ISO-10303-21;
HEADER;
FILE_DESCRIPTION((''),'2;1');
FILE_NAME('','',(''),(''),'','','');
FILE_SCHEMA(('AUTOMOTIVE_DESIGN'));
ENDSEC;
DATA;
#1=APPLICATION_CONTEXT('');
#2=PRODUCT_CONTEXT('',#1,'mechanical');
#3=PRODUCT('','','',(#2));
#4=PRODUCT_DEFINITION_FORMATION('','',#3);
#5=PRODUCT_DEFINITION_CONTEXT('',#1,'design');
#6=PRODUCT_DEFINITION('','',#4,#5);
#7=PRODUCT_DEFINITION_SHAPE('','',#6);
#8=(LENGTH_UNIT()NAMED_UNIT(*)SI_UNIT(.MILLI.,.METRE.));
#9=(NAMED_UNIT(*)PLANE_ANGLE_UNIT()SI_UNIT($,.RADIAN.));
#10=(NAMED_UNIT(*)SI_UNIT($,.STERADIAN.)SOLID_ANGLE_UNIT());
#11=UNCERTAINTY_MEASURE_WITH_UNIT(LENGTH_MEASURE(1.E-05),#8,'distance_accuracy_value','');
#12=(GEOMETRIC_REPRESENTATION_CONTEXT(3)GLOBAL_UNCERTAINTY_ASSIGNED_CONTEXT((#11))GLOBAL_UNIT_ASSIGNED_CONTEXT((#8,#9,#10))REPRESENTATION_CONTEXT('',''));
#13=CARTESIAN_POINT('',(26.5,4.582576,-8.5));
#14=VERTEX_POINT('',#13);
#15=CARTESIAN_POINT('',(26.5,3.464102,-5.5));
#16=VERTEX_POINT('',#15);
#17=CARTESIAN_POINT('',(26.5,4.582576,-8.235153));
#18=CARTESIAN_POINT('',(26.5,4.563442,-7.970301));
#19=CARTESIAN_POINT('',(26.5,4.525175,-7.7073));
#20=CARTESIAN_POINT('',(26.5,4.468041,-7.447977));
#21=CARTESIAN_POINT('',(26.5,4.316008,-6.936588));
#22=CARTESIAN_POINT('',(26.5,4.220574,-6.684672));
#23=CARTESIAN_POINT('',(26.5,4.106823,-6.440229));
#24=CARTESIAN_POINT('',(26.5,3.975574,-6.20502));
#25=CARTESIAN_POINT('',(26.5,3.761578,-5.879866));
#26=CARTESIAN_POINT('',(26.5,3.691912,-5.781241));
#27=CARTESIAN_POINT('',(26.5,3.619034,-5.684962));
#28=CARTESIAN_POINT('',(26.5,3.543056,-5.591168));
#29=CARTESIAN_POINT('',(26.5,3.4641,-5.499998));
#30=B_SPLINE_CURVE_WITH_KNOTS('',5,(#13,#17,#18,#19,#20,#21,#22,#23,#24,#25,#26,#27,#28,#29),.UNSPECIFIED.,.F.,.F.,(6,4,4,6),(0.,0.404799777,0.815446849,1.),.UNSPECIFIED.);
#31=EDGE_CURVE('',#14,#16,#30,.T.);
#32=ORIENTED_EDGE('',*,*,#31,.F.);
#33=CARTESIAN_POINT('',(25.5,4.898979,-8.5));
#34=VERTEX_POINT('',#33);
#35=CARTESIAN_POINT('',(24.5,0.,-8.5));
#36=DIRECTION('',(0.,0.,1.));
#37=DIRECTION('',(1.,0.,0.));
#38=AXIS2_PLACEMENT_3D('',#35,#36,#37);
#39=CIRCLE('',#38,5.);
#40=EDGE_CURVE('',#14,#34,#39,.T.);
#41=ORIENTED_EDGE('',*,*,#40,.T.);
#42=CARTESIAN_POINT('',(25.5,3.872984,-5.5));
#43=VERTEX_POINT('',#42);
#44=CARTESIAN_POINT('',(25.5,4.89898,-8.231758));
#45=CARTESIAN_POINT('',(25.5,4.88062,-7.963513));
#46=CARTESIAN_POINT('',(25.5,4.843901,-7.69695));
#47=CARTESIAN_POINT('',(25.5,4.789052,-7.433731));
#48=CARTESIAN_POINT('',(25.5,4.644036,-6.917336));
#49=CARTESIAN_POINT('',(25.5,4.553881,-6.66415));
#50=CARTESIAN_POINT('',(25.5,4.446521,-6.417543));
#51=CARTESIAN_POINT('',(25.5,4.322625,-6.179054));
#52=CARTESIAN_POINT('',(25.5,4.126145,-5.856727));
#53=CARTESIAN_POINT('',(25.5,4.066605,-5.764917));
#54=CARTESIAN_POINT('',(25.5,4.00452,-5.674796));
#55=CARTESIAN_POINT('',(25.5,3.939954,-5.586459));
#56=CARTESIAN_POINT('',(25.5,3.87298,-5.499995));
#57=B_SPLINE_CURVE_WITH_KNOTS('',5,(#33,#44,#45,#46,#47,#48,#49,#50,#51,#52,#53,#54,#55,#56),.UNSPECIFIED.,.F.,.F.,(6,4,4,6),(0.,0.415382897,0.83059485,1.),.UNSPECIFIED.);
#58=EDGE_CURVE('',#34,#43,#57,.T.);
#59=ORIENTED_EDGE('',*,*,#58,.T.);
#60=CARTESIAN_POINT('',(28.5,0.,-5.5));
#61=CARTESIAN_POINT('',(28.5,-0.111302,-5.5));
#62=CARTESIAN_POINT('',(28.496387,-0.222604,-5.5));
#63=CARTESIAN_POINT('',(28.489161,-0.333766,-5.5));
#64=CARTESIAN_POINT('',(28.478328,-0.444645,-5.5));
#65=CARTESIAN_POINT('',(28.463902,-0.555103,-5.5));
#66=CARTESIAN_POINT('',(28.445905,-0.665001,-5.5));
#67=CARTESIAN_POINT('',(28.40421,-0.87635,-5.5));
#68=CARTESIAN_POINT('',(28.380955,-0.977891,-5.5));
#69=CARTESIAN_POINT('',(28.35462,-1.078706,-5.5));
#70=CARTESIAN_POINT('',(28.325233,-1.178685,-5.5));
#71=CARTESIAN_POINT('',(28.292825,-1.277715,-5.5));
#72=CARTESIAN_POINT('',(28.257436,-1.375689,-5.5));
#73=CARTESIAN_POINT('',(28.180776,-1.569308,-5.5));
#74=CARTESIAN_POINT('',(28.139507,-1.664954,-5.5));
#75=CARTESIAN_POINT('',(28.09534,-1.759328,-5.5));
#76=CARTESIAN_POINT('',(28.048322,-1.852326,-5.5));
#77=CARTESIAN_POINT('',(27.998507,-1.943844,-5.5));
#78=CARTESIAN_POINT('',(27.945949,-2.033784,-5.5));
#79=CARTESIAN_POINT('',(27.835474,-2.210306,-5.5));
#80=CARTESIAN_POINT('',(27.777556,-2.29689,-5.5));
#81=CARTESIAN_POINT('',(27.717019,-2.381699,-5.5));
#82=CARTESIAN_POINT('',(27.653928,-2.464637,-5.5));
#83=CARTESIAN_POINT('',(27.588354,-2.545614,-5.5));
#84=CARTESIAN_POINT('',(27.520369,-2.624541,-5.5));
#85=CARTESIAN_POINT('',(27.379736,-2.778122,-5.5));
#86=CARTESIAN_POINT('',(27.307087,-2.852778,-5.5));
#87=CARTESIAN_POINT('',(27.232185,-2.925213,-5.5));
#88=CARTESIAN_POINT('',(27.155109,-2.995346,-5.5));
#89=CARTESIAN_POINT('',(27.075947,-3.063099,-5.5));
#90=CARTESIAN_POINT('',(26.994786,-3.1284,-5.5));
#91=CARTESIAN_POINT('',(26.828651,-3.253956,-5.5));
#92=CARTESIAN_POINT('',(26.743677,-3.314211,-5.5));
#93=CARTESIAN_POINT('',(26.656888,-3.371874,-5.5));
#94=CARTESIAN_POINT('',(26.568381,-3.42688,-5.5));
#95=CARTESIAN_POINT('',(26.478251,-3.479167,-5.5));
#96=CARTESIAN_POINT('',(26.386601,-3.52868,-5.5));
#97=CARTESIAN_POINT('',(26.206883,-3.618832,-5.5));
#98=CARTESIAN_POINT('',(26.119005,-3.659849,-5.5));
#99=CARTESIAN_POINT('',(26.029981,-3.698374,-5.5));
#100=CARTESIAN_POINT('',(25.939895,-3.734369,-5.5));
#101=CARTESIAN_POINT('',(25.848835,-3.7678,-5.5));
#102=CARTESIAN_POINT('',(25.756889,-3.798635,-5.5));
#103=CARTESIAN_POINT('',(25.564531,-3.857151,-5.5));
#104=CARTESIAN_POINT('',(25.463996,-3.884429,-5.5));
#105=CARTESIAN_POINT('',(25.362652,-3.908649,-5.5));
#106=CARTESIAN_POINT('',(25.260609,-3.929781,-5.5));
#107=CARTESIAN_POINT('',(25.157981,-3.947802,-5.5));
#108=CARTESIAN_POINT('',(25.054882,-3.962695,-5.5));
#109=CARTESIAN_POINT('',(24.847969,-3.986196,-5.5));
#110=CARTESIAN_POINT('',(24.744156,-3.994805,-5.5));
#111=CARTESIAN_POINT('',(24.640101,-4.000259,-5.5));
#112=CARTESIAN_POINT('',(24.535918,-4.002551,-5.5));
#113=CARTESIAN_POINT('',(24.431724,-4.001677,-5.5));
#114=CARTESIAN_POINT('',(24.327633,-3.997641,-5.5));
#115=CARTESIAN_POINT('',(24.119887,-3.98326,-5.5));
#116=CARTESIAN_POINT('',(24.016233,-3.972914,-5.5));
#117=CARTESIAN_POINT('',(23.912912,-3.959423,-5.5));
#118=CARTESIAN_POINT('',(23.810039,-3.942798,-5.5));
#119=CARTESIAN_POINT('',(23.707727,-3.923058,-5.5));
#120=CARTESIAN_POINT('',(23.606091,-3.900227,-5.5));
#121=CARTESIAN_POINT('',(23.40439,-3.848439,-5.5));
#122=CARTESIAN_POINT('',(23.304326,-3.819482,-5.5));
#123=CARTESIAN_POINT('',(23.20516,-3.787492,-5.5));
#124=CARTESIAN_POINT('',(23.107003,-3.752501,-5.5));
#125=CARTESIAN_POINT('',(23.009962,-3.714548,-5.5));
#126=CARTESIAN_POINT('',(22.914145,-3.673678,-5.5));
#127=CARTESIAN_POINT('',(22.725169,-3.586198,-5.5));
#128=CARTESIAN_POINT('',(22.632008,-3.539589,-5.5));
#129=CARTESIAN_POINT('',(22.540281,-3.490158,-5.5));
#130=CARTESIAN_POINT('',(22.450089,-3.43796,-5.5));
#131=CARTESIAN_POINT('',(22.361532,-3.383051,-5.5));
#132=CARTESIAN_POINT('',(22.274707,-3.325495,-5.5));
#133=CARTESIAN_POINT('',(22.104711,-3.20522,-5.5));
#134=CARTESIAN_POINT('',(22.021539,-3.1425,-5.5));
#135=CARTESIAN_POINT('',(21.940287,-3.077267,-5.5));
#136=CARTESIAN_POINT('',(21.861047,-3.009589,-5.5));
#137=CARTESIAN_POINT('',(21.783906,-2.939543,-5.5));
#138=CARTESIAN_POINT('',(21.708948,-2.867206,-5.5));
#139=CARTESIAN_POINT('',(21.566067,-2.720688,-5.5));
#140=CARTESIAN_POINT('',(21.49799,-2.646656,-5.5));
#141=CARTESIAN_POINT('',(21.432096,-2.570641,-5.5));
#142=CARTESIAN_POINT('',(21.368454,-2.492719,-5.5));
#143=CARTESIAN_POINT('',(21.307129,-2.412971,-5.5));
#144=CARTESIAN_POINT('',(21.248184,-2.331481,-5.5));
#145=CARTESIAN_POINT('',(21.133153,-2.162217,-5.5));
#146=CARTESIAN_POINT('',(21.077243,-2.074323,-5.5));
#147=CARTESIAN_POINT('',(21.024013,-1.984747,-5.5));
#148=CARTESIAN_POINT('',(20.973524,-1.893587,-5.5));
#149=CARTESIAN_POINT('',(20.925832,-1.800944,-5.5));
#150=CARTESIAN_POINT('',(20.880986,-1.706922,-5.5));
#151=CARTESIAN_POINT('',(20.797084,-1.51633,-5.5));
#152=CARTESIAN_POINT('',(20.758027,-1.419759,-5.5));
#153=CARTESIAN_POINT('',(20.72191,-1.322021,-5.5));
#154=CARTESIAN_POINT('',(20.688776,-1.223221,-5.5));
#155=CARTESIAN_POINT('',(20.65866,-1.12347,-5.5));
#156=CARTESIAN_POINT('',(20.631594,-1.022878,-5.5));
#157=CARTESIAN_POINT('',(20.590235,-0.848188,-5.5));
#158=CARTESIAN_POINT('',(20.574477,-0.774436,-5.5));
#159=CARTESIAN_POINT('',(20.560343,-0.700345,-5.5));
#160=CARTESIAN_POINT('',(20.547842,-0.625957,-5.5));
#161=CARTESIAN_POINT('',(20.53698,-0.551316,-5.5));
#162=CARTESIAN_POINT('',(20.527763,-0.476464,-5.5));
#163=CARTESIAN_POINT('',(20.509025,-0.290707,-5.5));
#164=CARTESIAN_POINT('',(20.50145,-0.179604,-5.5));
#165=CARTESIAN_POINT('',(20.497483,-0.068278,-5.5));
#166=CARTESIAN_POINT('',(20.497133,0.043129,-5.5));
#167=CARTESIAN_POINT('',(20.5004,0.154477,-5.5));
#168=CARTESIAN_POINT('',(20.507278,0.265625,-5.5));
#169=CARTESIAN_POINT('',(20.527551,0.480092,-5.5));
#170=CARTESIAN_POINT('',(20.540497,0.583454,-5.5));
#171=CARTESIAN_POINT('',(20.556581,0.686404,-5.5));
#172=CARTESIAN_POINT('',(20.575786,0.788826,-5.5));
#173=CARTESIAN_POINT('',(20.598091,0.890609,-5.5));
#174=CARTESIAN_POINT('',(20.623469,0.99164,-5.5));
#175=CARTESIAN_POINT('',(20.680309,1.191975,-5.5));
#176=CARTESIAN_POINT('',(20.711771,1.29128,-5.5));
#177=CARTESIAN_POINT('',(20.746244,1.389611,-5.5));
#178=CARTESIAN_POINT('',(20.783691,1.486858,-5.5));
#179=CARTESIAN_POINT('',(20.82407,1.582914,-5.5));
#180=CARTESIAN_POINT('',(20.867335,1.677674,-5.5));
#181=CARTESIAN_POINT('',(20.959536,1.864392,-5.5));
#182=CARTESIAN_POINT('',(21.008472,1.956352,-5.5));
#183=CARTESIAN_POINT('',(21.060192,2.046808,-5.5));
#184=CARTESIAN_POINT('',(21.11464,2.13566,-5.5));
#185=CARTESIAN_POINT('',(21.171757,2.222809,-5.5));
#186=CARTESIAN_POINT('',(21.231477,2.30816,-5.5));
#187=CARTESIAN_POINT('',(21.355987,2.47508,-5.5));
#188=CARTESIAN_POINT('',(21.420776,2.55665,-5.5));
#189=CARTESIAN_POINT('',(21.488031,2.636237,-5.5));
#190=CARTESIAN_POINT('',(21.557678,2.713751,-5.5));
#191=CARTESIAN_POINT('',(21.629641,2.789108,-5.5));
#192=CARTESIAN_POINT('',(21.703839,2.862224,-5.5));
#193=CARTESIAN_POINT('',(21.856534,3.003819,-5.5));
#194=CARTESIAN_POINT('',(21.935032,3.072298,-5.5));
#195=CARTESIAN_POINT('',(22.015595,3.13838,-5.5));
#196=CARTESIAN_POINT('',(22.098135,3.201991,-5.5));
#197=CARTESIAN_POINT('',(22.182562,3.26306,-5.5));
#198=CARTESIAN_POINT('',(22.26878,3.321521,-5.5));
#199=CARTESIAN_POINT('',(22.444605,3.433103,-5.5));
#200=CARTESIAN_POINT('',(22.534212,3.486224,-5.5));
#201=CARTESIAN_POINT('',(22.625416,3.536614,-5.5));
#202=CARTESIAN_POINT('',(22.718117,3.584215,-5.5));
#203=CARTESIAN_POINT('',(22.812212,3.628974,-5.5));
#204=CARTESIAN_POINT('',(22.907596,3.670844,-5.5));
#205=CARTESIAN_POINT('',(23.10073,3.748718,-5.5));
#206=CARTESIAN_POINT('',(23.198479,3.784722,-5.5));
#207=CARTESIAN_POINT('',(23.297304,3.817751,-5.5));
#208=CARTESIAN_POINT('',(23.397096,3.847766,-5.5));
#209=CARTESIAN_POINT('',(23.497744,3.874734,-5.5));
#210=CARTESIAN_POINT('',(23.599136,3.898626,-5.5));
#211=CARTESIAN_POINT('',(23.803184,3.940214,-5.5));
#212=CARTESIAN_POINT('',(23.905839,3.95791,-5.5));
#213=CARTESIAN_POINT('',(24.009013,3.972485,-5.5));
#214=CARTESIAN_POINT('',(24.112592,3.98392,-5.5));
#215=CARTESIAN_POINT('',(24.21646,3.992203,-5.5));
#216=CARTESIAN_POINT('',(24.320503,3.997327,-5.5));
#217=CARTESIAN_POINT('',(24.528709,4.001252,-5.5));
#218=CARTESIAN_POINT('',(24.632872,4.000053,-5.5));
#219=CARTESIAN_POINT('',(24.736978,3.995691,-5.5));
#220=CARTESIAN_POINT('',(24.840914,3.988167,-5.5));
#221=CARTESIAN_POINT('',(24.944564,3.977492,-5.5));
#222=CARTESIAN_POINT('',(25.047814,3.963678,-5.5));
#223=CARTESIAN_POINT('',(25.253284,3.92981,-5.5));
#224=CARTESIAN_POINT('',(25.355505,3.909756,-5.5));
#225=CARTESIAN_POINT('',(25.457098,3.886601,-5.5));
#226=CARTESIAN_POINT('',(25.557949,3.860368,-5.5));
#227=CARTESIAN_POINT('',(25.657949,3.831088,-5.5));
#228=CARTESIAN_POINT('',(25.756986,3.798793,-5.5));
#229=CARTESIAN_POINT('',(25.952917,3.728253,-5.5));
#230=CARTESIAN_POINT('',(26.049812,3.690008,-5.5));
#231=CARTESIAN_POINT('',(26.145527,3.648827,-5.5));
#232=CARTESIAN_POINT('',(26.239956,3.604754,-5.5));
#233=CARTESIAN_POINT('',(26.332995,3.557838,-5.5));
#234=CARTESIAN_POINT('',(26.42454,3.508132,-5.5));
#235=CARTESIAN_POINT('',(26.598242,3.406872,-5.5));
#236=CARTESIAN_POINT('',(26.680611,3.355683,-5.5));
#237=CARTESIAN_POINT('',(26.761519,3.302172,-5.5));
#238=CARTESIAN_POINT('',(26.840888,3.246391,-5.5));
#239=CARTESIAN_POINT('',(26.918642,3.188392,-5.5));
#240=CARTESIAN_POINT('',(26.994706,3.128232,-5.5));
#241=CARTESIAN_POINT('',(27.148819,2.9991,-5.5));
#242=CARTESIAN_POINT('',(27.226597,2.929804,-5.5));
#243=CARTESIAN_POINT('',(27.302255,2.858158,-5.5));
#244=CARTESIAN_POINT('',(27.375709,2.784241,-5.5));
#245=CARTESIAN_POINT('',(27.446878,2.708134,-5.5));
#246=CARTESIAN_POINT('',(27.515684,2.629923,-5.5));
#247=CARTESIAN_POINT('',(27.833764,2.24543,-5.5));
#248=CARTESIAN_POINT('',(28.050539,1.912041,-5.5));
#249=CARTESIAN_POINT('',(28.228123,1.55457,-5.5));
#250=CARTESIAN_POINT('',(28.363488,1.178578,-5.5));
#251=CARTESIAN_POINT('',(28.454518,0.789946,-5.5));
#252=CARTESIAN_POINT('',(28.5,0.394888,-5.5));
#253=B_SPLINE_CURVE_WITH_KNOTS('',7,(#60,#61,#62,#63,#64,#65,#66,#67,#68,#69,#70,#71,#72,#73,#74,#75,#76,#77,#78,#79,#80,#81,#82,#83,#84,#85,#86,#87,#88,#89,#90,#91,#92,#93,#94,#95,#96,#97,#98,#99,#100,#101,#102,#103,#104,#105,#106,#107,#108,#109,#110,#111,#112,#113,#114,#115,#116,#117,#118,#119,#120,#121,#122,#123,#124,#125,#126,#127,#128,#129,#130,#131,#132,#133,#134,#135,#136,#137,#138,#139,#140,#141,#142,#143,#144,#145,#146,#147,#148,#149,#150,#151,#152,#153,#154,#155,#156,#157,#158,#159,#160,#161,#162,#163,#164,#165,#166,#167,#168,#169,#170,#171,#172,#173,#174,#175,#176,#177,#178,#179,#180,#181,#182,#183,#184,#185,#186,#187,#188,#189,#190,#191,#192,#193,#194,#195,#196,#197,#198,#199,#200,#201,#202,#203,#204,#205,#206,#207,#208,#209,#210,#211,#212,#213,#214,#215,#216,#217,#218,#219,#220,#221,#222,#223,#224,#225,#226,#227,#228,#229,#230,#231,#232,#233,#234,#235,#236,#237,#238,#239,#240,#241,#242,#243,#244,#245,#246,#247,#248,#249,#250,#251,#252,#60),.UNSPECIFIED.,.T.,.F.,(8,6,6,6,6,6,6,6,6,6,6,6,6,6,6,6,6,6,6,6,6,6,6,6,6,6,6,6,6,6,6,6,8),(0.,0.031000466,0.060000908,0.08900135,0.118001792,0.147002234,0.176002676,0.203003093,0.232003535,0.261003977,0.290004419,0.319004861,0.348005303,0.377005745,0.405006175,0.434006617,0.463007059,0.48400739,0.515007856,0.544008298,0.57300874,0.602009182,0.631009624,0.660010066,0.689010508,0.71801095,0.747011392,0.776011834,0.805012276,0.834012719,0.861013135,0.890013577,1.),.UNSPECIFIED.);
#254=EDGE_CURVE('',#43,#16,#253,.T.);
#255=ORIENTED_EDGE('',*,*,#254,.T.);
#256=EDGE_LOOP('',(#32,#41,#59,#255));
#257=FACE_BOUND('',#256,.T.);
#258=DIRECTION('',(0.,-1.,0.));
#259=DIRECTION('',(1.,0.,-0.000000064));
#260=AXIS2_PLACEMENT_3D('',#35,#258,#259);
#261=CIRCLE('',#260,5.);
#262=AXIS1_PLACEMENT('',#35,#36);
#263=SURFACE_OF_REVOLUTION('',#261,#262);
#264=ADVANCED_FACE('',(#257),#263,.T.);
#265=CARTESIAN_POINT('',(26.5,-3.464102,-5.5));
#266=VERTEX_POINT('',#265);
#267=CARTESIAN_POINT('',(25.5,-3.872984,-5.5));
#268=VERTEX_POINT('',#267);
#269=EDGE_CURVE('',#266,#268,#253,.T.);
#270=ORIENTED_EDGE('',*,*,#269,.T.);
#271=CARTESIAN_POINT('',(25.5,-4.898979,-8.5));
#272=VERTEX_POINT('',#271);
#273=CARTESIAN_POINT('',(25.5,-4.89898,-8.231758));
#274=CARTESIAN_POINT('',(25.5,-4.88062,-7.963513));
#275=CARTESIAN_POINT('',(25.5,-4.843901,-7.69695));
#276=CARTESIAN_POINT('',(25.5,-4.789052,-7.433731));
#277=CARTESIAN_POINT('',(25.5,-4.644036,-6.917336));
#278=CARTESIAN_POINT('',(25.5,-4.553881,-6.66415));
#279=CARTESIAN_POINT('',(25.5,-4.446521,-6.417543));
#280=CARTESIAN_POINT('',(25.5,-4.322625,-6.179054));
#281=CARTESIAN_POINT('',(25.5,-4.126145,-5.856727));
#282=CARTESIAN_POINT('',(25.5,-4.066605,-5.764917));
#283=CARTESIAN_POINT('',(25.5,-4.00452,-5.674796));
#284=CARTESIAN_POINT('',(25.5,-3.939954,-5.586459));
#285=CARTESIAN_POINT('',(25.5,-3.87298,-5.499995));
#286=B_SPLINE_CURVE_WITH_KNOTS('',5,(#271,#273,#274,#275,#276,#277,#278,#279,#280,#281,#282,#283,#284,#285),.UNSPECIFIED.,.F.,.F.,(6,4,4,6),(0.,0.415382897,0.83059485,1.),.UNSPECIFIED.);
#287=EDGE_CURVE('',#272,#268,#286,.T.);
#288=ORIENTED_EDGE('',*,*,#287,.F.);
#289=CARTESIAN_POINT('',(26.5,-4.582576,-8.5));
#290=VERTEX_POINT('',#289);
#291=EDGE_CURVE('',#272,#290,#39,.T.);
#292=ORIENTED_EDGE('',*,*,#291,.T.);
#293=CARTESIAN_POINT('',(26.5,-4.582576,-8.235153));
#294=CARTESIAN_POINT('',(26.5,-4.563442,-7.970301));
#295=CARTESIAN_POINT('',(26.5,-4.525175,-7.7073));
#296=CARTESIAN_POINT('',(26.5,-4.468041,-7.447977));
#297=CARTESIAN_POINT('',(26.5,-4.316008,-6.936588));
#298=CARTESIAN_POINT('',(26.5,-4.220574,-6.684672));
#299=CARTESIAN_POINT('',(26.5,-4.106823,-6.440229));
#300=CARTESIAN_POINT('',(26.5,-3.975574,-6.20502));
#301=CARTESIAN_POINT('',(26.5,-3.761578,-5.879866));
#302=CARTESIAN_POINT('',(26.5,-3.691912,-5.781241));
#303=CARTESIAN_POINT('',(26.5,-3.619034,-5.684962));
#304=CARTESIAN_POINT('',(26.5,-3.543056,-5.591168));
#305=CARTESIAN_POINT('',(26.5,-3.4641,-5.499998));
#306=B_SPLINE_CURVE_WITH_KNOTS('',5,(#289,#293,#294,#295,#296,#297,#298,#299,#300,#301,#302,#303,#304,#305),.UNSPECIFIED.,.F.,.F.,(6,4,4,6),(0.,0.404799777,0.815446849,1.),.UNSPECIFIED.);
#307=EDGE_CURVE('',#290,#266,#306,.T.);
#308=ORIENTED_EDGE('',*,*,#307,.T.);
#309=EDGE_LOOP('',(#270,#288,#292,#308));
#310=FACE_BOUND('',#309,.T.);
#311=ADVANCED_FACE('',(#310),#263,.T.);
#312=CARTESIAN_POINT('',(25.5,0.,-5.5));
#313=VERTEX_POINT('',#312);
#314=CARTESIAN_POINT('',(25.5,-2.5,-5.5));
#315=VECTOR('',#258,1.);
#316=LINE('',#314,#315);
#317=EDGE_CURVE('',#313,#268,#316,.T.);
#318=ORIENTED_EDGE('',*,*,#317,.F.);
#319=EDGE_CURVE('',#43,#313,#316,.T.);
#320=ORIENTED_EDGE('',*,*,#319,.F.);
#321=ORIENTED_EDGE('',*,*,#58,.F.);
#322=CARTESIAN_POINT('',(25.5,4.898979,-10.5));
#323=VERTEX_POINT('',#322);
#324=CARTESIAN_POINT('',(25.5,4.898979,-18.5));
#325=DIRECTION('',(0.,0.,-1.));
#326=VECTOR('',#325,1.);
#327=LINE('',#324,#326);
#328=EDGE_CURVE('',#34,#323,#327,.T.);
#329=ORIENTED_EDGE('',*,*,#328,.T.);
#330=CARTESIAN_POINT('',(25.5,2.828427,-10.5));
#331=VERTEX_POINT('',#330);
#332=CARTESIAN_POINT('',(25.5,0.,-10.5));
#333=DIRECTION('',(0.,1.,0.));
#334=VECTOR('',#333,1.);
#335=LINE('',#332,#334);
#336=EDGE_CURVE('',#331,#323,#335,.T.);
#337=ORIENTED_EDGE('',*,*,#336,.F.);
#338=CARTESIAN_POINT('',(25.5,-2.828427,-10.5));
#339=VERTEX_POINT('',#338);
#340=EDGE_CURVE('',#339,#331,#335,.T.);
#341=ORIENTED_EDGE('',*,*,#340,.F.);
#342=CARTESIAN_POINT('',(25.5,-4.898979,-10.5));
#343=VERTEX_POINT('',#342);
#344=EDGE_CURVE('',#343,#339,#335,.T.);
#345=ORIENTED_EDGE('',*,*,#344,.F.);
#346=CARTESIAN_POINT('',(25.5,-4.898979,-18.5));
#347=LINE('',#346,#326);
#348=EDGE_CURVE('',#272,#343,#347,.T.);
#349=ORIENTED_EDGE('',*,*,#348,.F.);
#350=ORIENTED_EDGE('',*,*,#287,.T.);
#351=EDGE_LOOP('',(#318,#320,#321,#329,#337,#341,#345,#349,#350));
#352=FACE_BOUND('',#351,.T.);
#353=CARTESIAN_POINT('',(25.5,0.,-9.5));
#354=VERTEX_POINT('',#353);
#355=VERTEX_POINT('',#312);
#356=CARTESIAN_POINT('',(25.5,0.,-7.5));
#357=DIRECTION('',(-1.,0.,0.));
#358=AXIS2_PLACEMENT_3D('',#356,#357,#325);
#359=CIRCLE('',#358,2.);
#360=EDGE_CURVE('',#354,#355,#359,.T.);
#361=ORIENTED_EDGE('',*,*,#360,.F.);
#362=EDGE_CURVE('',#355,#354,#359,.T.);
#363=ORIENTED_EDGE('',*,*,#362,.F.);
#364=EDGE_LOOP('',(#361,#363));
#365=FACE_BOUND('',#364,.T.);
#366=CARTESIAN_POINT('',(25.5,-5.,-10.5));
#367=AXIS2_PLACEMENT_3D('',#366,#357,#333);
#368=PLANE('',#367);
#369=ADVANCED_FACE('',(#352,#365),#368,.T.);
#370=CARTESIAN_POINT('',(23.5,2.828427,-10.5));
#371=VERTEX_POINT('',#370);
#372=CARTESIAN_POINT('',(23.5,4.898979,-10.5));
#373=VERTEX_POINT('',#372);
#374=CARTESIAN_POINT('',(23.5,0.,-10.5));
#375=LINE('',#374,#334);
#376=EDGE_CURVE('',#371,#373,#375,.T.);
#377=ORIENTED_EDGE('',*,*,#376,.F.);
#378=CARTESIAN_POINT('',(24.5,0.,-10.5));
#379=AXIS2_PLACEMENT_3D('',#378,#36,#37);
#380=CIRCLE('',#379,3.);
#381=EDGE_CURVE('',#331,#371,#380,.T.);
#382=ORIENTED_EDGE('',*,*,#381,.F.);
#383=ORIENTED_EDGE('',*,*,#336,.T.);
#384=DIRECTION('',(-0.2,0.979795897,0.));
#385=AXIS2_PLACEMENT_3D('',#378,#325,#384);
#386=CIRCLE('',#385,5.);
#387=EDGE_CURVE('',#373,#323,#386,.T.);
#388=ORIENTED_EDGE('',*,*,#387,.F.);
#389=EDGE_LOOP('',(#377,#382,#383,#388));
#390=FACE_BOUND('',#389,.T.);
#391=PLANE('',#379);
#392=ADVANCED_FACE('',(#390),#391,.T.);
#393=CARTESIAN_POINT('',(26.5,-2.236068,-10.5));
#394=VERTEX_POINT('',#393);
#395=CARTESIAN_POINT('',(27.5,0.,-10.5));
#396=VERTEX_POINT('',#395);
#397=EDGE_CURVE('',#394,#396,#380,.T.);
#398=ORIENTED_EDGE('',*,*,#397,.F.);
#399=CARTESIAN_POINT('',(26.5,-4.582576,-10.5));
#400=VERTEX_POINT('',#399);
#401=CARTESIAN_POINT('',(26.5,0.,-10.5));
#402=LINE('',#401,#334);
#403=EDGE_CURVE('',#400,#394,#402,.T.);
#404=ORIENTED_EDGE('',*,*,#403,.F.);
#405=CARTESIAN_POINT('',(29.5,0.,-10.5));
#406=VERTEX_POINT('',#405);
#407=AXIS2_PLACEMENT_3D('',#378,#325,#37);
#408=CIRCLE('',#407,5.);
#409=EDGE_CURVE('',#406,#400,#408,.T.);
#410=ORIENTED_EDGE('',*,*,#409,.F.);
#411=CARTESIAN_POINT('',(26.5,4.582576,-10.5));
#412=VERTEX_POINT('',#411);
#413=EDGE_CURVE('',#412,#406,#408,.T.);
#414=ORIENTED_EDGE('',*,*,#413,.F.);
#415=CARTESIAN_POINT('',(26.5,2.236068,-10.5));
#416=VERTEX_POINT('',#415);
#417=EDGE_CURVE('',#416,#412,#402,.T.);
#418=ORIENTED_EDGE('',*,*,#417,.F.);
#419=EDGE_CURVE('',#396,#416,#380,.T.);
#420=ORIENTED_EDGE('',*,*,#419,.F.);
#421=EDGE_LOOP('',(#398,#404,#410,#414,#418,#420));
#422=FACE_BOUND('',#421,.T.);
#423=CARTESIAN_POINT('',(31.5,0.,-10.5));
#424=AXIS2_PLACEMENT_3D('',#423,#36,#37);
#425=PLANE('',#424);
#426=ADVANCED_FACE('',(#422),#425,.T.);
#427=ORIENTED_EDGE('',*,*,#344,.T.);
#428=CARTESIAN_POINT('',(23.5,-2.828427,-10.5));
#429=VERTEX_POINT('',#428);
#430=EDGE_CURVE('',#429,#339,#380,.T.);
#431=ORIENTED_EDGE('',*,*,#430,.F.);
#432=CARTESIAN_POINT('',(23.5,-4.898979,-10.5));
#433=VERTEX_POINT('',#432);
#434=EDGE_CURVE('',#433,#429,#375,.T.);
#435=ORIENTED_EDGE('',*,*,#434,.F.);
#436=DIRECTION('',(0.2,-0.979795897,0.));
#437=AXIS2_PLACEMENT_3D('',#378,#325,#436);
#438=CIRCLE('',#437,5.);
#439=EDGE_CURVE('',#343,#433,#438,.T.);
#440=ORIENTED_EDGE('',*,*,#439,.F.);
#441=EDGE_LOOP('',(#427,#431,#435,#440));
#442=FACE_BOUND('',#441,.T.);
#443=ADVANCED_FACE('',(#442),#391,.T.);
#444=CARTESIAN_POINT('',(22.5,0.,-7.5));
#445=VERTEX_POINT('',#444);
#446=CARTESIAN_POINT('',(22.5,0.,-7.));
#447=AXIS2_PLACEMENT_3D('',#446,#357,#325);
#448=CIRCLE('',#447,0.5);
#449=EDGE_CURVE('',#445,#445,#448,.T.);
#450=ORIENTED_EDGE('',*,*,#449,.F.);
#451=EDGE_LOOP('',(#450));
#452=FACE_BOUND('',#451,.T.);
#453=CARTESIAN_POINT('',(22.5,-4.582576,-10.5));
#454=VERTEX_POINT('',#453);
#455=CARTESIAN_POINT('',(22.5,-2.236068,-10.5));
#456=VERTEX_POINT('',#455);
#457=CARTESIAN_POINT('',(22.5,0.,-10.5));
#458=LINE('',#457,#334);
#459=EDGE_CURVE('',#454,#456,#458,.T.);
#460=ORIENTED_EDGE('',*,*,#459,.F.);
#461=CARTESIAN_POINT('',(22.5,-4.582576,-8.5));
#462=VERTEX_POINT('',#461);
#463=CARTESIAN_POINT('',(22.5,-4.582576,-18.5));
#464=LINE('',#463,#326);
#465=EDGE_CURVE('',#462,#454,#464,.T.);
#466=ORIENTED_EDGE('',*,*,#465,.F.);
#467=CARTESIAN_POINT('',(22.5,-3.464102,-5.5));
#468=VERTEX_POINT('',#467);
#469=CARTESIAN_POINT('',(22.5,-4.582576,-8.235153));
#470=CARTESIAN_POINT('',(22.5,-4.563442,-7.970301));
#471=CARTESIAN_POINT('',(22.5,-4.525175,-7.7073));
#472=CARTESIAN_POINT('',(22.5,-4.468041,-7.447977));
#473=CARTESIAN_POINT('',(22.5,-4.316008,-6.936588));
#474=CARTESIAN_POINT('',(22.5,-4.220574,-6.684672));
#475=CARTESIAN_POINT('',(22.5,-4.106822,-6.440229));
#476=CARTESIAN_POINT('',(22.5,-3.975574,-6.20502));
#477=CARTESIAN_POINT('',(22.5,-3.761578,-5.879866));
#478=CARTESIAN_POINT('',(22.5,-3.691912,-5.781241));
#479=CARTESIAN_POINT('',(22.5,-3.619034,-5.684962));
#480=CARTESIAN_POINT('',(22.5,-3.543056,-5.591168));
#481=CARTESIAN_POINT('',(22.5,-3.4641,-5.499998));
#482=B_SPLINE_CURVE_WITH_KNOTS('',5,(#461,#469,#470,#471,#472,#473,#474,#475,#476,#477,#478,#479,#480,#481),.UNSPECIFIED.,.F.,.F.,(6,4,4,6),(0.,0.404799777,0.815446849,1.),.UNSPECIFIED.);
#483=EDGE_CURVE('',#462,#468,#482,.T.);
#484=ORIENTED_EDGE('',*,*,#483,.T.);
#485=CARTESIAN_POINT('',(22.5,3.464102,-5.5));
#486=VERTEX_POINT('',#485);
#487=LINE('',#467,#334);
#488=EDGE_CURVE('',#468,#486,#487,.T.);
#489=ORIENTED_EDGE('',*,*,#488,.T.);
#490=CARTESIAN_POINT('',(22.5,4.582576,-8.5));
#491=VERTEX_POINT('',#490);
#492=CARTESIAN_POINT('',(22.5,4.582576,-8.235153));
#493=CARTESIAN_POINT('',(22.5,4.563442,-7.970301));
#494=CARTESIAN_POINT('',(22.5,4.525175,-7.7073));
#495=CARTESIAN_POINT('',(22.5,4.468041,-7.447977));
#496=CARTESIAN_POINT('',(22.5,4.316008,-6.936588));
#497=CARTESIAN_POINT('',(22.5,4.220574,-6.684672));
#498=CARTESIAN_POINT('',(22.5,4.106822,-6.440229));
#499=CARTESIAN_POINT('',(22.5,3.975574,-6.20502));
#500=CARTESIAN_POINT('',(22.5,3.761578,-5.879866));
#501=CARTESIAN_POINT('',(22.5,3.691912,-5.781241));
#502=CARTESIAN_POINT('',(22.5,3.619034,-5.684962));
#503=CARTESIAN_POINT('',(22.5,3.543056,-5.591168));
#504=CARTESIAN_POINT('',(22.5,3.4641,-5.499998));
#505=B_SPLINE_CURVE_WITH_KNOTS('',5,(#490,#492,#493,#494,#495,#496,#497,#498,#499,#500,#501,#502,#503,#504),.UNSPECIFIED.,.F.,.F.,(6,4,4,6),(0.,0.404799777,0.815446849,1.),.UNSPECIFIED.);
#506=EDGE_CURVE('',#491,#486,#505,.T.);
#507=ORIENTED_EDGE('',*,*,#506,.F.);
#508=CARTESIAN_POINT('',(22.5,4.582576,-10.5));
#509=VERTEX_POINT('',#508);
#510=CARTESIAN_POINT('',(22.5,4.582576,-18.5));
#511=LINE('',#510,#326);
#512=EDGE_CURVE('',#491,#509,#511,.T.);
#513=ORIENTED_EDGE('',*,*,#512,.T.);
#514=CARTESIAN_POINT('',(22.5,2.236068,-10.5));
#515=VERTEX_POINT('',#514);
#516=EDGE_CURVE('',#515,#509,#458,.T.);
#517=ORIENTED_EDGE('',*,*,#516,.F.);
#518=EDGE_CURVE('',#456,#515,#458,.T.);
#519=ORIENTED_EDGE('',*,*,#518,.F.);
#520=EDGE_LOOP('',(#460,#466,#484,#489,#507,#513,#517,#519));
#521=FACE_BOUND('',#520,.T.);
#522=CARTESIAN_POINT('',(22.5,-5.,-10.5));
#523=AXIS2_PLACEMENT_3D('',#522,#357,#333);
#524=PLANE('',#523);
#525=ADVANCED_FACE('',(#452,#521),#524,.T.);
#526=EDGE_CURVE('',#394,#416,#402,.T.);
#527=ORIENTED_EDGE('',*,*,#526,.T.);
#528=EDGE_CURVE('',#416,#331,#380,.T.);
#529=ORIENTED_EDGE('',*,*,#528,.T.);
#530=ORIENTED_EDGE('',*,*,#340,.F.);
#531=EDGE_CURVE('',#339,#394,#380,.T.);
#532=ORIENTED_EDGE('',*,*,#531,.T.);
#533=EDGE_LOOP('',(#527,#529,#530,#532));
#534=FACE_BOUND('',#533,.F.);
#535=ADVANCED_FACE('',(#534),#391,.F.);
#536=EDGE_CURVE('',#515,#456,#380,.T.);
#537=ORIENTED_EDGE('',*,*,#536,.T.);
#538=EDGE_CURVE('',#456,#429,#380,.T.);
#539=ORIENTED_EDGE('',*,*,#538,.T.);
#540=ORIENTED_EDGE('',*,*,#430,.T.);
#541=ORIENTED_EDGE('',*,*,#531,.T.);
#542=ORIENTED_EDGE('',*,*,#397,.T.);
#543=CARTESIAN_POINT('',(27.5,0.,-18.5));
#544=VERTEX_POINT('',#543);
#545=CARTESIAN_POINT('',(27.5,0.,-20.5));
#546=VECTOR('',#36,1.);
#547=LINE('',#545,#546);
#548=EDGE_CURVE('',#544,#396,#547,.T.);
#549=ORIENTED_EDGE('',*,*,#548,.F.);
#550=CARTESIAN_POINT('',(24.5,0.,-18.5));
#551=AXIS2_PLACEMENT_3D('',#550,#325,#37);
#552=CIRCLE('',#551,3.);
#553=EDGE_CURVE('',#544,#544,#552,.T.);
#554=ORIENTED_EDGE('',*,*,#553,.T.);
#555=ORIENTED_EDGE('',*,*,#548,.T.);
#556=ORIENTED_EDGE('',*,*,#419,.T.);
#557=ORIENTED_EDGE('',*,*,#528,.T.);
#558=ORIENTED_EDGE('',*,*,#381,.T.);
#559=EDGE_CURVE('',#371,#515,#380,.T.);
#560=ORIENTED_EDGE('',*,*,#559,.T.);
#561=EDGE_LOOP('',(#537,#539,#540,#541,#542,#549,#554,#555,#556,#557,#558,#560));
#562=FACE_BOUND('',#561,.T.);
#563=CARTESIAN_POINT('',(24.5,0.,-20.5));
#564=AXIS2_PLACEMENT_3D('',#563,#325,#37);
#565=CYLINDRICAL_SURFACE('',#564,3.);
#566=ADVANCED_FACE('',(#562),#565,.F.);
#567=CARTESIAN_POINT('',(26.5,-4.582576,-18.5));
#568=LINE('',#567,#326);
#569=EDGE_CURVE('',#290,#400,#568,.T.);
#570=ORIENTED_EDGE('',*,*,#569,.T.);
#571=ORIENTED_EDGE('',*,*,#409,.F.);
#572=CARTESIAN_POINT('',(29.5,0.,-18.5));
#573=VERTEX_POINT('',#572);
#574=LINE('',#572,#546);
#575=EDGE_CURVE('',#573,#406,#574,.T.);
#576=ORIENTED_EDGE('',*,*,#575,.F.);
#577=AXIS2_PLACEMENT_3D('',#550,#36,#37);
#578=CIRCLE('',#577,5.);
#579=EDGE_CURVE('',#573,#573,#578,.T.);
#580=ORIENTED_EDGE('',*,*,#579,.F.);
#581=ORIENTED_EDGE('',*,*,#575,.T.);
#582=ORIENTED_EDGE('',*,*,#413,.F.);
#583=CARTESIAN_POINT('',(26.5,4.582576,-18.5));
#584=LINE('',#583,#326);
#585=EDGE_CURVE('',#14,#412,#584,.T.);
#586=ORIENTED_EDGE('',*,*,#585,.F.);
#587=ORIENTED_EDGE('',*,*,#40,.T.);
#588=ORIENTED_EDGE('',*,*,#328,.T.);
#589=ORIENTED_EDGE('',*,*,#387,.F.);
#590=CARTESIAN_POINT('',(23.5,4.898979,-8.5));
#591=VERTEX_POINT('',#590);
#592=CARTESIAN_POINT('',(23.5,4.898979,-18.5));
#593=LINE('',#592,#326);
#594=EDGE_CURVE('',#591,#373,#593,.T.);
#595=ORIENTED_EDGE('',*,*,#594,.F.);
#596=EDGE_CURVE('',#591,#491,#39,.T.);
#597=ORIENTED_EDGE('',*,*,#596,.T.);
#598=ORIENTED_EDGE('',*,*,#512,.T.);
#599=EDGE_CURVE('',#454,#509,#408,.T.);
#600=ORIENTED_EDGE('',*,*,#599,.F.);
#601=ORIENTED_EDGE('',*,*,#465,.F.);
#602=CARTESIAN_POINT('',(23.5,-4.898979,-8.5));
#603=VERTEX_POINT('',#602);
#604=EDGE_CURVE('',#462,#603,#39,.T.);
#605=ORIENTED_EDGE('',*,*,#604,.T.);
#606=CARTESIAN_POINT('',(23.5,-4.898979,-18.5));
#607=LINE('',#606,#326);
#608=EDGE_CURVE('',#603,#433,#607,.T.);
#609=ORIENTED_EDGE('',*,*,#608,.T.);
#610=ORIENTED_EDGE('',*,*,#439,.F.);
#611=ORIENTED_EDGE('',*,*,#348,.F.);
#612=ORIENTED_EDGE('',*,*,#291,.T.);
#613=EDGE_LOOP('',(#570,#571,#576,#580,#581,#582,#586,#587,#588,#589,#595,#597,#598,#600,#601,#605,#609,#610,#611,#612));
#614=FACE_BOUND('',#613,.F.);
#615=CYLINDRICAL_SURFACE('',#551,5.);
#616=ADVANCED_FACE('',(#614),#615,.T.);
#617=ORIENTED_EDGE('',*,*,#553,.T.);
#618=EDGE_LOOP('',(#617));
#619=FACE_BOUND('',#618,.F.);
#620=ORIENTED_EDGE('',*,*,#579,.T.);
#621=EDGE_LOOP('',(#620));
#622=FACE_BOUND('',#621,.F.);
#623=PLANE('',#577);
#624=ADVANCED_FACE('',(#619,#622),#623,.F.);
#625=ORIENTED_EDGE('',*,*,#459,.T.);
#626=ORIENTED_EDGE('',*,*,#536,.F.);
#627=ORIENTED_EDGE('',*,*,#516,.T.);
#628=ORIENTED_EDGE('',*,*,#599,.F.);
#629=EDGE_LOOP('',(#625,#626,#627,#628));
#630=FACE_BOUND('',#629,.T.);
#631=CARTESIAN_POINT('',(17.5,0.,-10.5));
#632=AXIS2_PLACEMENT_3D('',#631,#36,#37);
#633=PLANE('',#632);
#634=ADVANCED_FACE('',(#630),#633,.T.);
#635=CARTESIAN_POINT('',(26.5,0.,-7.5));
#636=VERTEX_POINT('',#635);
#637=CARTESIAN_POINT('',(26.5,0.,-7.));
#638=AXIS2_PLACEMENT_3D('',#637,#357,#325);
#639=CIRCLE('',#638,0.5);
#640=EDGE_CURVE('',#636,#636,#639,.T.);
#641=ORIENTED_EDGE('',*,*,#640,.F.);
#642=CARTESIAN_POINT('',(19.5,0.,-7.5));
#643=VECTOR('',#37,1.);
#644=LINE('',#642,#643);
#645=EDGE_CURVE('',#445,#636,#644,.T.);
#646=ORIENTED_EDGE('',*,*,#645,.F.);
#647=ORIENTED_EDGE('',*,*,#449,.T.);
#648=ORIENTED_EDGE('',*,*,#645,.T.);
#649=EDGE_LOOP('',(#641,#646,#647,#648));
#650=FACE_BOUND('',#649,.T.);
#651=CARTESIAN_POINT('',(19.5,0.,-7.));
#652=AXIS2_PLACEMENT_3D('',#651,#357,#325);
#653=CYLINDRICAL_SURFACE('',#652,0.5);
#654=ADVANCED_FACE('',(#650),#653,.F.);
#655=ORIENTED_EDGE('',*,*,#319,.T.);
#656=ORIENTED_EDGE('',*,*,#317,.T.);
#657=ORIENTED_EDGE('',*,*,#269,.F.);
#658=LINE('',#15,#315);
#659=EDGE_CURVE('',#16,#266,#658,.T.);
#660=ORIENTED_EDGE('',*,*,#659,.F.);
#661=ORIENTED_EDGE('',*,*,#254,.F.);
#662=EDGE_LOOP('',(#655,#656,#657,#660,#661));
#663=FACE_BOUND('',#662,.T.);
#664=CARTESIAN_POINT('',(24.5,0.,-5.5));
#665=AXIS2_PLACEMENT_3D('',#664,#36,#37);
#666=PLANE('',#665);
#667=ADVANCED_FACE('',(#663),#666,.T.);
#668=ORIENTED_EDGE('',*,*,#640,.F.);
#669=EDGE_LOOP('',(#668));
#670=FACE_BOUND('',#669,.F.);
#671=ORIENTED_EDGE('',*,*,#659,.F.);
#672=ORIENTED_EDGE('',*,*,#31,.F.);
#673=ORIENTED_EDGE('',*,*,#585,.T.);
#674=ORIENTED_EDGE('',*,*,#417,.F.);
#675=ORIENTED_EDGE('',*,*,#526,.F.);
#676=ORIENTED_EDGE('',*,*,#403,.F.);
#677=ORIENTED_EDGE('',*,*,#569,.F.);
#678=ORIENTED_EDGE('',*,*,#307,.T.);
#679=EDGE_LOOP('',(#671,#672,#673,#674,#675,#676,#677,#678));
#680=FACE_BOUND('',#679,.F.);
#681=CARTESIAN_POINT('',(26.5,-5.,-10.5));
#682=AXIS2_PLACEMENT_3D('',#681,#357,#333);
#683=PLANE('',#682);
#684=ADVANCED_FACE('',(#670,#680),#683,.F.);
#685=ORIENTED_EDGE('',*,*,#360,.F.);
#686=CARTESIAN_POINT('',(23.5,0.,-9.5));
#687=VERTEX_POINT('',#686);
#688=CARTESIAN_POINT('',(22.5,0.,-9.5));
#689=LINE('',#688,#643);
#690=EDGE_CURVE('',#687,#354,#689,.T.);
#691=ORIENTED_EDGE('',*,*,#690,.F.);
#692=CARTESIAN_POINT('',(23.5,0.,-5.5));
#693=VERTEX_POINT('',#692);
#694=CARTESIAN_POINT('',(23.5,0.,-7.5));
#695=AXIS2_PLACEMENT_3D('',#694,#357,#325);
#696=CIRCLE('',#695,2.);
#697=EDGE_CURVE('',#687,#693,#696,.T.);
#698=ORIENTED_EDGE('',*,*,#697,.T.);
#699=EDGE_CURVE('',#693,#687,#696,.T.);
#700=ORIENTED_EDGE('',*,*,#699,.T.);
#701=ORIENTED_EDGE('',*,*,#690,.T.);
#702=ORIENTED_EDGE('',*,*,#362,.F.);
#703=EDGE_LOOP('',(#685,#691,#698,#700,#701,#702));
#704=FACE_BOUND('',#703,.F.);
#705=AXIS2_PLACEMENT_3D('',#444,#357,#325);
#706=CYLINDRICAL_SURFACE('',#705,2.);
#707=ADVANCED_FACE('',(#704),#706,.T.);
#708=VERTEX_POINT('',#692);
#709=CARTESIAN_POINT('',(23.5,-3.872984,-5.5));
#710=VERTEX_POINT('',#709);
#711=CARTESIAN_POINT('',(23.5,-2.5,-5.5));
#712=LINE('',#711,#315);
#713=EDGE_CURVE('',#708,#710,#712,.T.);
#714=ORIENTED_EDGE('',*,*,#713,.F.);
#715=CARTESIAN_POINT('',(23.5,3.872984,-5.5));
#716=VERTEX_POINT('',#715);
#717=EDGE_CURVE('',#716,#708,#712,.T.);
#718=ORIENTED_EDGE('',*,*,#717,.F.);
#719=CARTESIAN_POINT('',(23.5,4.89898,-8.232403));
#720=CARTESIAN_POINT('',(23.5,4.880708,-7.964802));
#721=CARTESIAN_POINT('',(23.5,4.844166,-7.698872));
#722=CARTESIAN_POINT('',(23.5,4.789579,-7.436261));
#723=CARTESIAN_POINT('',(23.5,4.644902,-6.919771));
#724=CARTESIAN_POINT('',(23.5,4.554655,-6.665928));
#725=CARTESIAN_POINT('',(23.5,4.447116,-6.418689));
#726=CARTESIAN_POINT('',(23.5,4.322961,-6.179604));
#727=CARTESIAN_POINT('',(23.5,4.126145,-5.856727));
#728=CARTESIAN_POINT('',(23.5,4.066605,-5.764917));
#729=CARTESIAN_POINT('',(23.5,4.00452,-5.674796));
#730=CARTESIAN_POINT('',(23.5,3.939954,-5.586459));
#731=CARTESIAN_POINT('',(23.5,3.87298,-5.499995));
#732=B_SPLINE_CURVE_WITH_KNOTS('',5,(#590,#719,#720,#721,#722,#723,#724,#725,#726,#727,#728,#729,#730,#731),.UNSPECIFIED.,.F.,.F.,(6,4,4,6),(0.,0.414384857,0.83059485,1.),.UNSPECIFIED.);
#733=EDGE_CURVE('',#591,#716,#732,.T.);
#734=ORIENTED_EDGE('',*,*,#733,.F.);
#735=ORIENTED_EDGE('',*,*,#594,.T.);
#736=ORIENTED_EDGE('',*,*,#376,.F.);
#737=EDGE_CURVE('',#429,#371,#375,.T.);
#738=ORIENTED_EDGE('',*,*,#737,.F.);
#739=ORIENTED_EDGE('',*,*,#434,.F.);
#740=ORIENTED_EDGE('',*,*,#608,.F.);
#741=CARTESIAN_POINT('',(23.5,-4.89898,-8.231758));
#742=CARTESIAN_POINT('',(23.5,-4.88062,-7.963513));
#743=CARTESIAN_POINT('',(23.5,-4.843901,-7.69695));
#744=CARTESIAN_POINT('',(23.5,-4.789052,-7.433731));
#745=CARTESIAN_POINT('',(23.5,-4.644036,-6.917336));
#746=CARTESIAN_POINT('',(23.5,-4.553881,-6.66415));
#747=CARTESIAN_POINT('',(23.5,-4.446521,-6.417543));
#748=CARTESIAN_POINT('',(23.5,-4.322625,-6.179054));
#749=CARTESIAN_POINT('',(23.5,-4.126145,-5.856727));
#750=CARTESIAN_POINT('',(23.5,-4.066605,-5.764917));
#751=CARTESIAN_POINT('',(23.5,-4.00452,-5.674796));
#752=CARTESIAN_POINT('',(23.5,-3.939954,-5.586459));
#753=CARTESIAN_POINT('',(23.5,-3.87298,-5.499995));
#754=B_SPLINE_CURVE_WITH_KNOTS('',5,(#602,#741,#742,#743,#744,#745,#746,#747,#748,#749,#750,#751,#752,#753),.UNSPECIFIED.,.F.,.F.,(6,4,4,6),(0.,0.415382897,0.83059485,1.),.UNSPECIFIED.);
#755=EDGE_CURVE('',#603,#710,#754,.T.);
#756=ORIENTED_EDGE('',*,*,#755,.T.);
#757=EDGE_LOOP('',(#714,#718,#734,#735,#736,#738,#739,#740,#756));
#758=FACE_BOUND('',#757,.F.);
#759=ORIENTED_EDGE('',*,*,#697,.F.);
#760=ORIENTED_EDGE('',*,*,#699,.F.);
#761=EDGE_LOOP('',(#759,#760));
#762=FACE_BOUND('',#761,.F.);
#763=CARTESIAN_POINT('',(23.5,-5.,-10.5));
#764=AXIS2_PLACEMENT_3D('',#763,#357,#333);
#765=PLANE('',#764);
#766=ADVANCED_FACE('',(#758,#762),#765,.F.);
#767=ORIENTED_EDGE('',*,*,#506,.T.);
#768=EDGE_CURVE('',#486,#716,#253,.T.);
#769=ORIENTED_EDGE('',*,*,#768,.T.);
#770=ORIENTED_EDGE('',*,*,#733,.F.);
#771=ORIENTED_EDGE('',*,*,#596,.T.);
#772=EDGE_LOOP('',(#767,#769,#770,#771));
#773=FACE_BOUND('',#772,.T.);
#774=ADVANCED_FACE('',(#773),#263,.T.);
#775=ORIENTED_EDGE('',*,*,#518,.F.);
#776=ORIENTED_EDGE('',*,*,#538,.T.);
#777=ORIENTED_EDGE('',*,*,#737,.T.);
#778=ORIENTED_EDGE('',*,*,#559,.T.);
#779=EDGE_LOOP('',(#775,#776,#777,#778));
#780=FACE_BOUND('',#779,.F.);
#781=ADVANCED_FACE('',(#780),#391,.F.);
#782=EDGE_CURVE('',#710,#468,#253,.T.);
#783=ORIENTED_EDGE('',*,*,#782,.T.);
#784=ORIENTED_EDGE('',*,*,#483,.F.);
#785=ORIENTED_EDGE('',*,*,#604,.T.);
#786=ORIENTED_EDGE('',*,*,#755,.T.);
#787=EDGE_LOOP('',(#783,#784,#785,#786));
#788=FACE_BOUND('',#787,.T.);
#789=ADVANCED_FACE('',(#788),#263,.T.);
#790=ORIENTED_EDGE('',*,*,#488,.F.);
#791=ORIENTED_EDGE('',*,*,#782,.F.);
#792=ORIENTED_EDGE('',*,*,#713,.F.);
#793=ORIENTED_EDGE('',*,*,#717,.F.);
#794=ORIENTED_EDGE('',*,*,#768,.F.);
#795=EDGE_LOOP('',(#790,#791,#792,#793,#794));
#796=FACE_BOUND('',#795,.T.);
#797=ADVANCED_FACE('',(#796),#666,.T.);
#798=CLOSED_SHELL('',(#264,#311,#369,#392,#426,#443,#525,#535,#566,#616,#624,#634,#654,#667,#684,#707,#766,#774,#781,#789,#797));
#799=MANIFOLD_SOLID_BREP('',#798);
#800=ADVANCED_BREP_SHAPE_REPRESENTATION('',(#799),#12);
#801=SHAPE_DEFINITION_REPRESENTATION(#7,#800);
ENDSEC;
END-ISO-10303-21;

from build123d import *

# Parameters (mm, degrees)
CYLINDER021_R     = 0.5
CYLINDER021_DEPTH = 10
CYLINDER018_R     = 2
CYLINDER018_DEPTH = 4
CYLINDER022_R     = 3
CYLINDER022_DEPTH = 10
BOX007_W          = 10
BOX007_H          = 10
BOX007_DEPTH      = 10
BOX005_W          = 2
BOX005_H          = 10
BOX005_DEPTH      = 10
BOX006_W          = 10
BOX006_H          = 10
BOX006_DEPTH      = 10
CYLINDER020_R     = 5
CYLINDER020_DEPTH = 10
CYLINDER019_R     = 5
CYLINDER019_DEPTH = 10


with BuildPart() as cylinder021:
    # Cylinder021 → Cylinder021 (new body)
    with BuildSketch(Plane(origin=(-5, 0, -7), x_dir=(0, 0, -1), z_dir=(1, 0, 0))):
        Circle(CYLINDER021_R)
    extrude(amount=CYLINDER021_DEPTH)


with BuildPart() as cylinder018:
    # Cylinder018 → Cylinder018 (new body)
    with BuildSketch(Plane(origin=(-2, -50, 1), x_dir=(0, 0, -1), z_dir=(1, 0, 0))):
        Circle(CYLINDER018_R)
    extrude(amount=CYLINDER018_DEPTH)


with BuildPart() as cylinder022:
    # Cylinder022 → Cylinder022 (new body)
    with BuildSketch(Plane(origin=(0, -50, -12), x_dir=(1, 0, 0), z_dir=(0, 0, 1))):
        Circle(CYLINDER022_R)
    extrude(amount=CYLINDER022_DEPTH)


with BuildPart() as cube007:
    # Box007 → Box007 (new body)
    with BuildSketch(Plane(origin=(-12, -55, -2), x_dir=(1, 0, 0), z_dir=(0, 0, 1))):
        with Locations((5, 5)):
            Rectangle(BOX007_W, BOX007_H)
    extrude(amount=BOX007_DEPTH)


with BuildPart() as cube005:
    # Box005 → Box005 (new body)
    with BuildSketch(Plane(origin=(-1, -55, -2), x_dir=(1, 0, 0), z_dir=(0, 0, 1))):
        with Locations((1, 5)):
            Rectangle(BOX005_W, BOX005_H)
    extrude(amount=BOX005_DEPTH)


with BuildPart() as cube006:
    # Box006 → Box006 (new body)
    with BuildSketch(Plane(origin=(2, -55, -2), x_dir=(1, 0, 0), z_dir=(0, 0, 1))):
        with Locations((5, 5)):
            Rectangle(BOX006_W, BOX006_H)
    extrude(amount=BOX006_DEPTH)


with BuildPart() as cylinder020:
    # Cylinder020 → Cylinder020 (new body)
    with BuildSketch(Plane(origin=(0, -50, -10), x_dir=(1, 0, 0), z_dir=(0, 0, 1))):
        Circle(CYLINDER020_R)
    extrude(amount=CYLINDER020_DEPTH)


with BuildPart() as sphere005:
    # Sphere005 → Sphere005 (revolve)
    with BuildSketch(Plane.XZ.offset(50)):
        with BuildLine():
            ThreePointArc((5, 0), (3.535534, 3.535534), (0, 5))
            Line((0, 5), (0, 0))
            Line((0, 0), (5, 0))
        make_face()
    revolve(axis=Axis((0, -50, 0), (0, 0, 1)))


with BuildPart() as cut016:
    # Cylinder019 → Cylinder019 (new body)
    with BuildSketch(Plane(origin=(0, -50, -7), x_dir=(1, 0, 0), z_dir=(0, 0, 1))):
        Circle(CYLINDER019_R)
    extrude(amount=CYLINDER019_DEPTH)

    # Common003: intersect Sphere005
    add(sphere005.part, mode=Mode.INTERSECT)

    # Fusion005003: union Cylinder020
    add(cylinder020.part)

    # Cut015: cut Cube006
    add(cube006.part, mode=Mode.SUBTRACT)

    # Cut017: cut Cube005
    add(cube005.part, mode=Mode.SUBTRACT)

    # Cut018: cut Cube007
    add(cube007.part, mode=Mode.SUBTRACT)

    # Cut014: cut Cylinder022
    add(cylinder022.part, mode=Mode.SUBTRACT)

    # Fusion005002: union Cylinder018
    add(cylinder018.part)


with BuildPart() as cut016_1:
    # Fusion005004 placement: moved
    add(cut016.part.moved(Location((0, 50, -8.5))))

    # Cut016: cut Cylinder021
    add(cylinder021.part, mode=Mode.SUBTRACT)


with BuildPart() as cut016_2:
    # Cut016 placement: moved
    add(cut016_1.part.moved(Location((24.5, 0, 0))))


solid = cut016_2.part
